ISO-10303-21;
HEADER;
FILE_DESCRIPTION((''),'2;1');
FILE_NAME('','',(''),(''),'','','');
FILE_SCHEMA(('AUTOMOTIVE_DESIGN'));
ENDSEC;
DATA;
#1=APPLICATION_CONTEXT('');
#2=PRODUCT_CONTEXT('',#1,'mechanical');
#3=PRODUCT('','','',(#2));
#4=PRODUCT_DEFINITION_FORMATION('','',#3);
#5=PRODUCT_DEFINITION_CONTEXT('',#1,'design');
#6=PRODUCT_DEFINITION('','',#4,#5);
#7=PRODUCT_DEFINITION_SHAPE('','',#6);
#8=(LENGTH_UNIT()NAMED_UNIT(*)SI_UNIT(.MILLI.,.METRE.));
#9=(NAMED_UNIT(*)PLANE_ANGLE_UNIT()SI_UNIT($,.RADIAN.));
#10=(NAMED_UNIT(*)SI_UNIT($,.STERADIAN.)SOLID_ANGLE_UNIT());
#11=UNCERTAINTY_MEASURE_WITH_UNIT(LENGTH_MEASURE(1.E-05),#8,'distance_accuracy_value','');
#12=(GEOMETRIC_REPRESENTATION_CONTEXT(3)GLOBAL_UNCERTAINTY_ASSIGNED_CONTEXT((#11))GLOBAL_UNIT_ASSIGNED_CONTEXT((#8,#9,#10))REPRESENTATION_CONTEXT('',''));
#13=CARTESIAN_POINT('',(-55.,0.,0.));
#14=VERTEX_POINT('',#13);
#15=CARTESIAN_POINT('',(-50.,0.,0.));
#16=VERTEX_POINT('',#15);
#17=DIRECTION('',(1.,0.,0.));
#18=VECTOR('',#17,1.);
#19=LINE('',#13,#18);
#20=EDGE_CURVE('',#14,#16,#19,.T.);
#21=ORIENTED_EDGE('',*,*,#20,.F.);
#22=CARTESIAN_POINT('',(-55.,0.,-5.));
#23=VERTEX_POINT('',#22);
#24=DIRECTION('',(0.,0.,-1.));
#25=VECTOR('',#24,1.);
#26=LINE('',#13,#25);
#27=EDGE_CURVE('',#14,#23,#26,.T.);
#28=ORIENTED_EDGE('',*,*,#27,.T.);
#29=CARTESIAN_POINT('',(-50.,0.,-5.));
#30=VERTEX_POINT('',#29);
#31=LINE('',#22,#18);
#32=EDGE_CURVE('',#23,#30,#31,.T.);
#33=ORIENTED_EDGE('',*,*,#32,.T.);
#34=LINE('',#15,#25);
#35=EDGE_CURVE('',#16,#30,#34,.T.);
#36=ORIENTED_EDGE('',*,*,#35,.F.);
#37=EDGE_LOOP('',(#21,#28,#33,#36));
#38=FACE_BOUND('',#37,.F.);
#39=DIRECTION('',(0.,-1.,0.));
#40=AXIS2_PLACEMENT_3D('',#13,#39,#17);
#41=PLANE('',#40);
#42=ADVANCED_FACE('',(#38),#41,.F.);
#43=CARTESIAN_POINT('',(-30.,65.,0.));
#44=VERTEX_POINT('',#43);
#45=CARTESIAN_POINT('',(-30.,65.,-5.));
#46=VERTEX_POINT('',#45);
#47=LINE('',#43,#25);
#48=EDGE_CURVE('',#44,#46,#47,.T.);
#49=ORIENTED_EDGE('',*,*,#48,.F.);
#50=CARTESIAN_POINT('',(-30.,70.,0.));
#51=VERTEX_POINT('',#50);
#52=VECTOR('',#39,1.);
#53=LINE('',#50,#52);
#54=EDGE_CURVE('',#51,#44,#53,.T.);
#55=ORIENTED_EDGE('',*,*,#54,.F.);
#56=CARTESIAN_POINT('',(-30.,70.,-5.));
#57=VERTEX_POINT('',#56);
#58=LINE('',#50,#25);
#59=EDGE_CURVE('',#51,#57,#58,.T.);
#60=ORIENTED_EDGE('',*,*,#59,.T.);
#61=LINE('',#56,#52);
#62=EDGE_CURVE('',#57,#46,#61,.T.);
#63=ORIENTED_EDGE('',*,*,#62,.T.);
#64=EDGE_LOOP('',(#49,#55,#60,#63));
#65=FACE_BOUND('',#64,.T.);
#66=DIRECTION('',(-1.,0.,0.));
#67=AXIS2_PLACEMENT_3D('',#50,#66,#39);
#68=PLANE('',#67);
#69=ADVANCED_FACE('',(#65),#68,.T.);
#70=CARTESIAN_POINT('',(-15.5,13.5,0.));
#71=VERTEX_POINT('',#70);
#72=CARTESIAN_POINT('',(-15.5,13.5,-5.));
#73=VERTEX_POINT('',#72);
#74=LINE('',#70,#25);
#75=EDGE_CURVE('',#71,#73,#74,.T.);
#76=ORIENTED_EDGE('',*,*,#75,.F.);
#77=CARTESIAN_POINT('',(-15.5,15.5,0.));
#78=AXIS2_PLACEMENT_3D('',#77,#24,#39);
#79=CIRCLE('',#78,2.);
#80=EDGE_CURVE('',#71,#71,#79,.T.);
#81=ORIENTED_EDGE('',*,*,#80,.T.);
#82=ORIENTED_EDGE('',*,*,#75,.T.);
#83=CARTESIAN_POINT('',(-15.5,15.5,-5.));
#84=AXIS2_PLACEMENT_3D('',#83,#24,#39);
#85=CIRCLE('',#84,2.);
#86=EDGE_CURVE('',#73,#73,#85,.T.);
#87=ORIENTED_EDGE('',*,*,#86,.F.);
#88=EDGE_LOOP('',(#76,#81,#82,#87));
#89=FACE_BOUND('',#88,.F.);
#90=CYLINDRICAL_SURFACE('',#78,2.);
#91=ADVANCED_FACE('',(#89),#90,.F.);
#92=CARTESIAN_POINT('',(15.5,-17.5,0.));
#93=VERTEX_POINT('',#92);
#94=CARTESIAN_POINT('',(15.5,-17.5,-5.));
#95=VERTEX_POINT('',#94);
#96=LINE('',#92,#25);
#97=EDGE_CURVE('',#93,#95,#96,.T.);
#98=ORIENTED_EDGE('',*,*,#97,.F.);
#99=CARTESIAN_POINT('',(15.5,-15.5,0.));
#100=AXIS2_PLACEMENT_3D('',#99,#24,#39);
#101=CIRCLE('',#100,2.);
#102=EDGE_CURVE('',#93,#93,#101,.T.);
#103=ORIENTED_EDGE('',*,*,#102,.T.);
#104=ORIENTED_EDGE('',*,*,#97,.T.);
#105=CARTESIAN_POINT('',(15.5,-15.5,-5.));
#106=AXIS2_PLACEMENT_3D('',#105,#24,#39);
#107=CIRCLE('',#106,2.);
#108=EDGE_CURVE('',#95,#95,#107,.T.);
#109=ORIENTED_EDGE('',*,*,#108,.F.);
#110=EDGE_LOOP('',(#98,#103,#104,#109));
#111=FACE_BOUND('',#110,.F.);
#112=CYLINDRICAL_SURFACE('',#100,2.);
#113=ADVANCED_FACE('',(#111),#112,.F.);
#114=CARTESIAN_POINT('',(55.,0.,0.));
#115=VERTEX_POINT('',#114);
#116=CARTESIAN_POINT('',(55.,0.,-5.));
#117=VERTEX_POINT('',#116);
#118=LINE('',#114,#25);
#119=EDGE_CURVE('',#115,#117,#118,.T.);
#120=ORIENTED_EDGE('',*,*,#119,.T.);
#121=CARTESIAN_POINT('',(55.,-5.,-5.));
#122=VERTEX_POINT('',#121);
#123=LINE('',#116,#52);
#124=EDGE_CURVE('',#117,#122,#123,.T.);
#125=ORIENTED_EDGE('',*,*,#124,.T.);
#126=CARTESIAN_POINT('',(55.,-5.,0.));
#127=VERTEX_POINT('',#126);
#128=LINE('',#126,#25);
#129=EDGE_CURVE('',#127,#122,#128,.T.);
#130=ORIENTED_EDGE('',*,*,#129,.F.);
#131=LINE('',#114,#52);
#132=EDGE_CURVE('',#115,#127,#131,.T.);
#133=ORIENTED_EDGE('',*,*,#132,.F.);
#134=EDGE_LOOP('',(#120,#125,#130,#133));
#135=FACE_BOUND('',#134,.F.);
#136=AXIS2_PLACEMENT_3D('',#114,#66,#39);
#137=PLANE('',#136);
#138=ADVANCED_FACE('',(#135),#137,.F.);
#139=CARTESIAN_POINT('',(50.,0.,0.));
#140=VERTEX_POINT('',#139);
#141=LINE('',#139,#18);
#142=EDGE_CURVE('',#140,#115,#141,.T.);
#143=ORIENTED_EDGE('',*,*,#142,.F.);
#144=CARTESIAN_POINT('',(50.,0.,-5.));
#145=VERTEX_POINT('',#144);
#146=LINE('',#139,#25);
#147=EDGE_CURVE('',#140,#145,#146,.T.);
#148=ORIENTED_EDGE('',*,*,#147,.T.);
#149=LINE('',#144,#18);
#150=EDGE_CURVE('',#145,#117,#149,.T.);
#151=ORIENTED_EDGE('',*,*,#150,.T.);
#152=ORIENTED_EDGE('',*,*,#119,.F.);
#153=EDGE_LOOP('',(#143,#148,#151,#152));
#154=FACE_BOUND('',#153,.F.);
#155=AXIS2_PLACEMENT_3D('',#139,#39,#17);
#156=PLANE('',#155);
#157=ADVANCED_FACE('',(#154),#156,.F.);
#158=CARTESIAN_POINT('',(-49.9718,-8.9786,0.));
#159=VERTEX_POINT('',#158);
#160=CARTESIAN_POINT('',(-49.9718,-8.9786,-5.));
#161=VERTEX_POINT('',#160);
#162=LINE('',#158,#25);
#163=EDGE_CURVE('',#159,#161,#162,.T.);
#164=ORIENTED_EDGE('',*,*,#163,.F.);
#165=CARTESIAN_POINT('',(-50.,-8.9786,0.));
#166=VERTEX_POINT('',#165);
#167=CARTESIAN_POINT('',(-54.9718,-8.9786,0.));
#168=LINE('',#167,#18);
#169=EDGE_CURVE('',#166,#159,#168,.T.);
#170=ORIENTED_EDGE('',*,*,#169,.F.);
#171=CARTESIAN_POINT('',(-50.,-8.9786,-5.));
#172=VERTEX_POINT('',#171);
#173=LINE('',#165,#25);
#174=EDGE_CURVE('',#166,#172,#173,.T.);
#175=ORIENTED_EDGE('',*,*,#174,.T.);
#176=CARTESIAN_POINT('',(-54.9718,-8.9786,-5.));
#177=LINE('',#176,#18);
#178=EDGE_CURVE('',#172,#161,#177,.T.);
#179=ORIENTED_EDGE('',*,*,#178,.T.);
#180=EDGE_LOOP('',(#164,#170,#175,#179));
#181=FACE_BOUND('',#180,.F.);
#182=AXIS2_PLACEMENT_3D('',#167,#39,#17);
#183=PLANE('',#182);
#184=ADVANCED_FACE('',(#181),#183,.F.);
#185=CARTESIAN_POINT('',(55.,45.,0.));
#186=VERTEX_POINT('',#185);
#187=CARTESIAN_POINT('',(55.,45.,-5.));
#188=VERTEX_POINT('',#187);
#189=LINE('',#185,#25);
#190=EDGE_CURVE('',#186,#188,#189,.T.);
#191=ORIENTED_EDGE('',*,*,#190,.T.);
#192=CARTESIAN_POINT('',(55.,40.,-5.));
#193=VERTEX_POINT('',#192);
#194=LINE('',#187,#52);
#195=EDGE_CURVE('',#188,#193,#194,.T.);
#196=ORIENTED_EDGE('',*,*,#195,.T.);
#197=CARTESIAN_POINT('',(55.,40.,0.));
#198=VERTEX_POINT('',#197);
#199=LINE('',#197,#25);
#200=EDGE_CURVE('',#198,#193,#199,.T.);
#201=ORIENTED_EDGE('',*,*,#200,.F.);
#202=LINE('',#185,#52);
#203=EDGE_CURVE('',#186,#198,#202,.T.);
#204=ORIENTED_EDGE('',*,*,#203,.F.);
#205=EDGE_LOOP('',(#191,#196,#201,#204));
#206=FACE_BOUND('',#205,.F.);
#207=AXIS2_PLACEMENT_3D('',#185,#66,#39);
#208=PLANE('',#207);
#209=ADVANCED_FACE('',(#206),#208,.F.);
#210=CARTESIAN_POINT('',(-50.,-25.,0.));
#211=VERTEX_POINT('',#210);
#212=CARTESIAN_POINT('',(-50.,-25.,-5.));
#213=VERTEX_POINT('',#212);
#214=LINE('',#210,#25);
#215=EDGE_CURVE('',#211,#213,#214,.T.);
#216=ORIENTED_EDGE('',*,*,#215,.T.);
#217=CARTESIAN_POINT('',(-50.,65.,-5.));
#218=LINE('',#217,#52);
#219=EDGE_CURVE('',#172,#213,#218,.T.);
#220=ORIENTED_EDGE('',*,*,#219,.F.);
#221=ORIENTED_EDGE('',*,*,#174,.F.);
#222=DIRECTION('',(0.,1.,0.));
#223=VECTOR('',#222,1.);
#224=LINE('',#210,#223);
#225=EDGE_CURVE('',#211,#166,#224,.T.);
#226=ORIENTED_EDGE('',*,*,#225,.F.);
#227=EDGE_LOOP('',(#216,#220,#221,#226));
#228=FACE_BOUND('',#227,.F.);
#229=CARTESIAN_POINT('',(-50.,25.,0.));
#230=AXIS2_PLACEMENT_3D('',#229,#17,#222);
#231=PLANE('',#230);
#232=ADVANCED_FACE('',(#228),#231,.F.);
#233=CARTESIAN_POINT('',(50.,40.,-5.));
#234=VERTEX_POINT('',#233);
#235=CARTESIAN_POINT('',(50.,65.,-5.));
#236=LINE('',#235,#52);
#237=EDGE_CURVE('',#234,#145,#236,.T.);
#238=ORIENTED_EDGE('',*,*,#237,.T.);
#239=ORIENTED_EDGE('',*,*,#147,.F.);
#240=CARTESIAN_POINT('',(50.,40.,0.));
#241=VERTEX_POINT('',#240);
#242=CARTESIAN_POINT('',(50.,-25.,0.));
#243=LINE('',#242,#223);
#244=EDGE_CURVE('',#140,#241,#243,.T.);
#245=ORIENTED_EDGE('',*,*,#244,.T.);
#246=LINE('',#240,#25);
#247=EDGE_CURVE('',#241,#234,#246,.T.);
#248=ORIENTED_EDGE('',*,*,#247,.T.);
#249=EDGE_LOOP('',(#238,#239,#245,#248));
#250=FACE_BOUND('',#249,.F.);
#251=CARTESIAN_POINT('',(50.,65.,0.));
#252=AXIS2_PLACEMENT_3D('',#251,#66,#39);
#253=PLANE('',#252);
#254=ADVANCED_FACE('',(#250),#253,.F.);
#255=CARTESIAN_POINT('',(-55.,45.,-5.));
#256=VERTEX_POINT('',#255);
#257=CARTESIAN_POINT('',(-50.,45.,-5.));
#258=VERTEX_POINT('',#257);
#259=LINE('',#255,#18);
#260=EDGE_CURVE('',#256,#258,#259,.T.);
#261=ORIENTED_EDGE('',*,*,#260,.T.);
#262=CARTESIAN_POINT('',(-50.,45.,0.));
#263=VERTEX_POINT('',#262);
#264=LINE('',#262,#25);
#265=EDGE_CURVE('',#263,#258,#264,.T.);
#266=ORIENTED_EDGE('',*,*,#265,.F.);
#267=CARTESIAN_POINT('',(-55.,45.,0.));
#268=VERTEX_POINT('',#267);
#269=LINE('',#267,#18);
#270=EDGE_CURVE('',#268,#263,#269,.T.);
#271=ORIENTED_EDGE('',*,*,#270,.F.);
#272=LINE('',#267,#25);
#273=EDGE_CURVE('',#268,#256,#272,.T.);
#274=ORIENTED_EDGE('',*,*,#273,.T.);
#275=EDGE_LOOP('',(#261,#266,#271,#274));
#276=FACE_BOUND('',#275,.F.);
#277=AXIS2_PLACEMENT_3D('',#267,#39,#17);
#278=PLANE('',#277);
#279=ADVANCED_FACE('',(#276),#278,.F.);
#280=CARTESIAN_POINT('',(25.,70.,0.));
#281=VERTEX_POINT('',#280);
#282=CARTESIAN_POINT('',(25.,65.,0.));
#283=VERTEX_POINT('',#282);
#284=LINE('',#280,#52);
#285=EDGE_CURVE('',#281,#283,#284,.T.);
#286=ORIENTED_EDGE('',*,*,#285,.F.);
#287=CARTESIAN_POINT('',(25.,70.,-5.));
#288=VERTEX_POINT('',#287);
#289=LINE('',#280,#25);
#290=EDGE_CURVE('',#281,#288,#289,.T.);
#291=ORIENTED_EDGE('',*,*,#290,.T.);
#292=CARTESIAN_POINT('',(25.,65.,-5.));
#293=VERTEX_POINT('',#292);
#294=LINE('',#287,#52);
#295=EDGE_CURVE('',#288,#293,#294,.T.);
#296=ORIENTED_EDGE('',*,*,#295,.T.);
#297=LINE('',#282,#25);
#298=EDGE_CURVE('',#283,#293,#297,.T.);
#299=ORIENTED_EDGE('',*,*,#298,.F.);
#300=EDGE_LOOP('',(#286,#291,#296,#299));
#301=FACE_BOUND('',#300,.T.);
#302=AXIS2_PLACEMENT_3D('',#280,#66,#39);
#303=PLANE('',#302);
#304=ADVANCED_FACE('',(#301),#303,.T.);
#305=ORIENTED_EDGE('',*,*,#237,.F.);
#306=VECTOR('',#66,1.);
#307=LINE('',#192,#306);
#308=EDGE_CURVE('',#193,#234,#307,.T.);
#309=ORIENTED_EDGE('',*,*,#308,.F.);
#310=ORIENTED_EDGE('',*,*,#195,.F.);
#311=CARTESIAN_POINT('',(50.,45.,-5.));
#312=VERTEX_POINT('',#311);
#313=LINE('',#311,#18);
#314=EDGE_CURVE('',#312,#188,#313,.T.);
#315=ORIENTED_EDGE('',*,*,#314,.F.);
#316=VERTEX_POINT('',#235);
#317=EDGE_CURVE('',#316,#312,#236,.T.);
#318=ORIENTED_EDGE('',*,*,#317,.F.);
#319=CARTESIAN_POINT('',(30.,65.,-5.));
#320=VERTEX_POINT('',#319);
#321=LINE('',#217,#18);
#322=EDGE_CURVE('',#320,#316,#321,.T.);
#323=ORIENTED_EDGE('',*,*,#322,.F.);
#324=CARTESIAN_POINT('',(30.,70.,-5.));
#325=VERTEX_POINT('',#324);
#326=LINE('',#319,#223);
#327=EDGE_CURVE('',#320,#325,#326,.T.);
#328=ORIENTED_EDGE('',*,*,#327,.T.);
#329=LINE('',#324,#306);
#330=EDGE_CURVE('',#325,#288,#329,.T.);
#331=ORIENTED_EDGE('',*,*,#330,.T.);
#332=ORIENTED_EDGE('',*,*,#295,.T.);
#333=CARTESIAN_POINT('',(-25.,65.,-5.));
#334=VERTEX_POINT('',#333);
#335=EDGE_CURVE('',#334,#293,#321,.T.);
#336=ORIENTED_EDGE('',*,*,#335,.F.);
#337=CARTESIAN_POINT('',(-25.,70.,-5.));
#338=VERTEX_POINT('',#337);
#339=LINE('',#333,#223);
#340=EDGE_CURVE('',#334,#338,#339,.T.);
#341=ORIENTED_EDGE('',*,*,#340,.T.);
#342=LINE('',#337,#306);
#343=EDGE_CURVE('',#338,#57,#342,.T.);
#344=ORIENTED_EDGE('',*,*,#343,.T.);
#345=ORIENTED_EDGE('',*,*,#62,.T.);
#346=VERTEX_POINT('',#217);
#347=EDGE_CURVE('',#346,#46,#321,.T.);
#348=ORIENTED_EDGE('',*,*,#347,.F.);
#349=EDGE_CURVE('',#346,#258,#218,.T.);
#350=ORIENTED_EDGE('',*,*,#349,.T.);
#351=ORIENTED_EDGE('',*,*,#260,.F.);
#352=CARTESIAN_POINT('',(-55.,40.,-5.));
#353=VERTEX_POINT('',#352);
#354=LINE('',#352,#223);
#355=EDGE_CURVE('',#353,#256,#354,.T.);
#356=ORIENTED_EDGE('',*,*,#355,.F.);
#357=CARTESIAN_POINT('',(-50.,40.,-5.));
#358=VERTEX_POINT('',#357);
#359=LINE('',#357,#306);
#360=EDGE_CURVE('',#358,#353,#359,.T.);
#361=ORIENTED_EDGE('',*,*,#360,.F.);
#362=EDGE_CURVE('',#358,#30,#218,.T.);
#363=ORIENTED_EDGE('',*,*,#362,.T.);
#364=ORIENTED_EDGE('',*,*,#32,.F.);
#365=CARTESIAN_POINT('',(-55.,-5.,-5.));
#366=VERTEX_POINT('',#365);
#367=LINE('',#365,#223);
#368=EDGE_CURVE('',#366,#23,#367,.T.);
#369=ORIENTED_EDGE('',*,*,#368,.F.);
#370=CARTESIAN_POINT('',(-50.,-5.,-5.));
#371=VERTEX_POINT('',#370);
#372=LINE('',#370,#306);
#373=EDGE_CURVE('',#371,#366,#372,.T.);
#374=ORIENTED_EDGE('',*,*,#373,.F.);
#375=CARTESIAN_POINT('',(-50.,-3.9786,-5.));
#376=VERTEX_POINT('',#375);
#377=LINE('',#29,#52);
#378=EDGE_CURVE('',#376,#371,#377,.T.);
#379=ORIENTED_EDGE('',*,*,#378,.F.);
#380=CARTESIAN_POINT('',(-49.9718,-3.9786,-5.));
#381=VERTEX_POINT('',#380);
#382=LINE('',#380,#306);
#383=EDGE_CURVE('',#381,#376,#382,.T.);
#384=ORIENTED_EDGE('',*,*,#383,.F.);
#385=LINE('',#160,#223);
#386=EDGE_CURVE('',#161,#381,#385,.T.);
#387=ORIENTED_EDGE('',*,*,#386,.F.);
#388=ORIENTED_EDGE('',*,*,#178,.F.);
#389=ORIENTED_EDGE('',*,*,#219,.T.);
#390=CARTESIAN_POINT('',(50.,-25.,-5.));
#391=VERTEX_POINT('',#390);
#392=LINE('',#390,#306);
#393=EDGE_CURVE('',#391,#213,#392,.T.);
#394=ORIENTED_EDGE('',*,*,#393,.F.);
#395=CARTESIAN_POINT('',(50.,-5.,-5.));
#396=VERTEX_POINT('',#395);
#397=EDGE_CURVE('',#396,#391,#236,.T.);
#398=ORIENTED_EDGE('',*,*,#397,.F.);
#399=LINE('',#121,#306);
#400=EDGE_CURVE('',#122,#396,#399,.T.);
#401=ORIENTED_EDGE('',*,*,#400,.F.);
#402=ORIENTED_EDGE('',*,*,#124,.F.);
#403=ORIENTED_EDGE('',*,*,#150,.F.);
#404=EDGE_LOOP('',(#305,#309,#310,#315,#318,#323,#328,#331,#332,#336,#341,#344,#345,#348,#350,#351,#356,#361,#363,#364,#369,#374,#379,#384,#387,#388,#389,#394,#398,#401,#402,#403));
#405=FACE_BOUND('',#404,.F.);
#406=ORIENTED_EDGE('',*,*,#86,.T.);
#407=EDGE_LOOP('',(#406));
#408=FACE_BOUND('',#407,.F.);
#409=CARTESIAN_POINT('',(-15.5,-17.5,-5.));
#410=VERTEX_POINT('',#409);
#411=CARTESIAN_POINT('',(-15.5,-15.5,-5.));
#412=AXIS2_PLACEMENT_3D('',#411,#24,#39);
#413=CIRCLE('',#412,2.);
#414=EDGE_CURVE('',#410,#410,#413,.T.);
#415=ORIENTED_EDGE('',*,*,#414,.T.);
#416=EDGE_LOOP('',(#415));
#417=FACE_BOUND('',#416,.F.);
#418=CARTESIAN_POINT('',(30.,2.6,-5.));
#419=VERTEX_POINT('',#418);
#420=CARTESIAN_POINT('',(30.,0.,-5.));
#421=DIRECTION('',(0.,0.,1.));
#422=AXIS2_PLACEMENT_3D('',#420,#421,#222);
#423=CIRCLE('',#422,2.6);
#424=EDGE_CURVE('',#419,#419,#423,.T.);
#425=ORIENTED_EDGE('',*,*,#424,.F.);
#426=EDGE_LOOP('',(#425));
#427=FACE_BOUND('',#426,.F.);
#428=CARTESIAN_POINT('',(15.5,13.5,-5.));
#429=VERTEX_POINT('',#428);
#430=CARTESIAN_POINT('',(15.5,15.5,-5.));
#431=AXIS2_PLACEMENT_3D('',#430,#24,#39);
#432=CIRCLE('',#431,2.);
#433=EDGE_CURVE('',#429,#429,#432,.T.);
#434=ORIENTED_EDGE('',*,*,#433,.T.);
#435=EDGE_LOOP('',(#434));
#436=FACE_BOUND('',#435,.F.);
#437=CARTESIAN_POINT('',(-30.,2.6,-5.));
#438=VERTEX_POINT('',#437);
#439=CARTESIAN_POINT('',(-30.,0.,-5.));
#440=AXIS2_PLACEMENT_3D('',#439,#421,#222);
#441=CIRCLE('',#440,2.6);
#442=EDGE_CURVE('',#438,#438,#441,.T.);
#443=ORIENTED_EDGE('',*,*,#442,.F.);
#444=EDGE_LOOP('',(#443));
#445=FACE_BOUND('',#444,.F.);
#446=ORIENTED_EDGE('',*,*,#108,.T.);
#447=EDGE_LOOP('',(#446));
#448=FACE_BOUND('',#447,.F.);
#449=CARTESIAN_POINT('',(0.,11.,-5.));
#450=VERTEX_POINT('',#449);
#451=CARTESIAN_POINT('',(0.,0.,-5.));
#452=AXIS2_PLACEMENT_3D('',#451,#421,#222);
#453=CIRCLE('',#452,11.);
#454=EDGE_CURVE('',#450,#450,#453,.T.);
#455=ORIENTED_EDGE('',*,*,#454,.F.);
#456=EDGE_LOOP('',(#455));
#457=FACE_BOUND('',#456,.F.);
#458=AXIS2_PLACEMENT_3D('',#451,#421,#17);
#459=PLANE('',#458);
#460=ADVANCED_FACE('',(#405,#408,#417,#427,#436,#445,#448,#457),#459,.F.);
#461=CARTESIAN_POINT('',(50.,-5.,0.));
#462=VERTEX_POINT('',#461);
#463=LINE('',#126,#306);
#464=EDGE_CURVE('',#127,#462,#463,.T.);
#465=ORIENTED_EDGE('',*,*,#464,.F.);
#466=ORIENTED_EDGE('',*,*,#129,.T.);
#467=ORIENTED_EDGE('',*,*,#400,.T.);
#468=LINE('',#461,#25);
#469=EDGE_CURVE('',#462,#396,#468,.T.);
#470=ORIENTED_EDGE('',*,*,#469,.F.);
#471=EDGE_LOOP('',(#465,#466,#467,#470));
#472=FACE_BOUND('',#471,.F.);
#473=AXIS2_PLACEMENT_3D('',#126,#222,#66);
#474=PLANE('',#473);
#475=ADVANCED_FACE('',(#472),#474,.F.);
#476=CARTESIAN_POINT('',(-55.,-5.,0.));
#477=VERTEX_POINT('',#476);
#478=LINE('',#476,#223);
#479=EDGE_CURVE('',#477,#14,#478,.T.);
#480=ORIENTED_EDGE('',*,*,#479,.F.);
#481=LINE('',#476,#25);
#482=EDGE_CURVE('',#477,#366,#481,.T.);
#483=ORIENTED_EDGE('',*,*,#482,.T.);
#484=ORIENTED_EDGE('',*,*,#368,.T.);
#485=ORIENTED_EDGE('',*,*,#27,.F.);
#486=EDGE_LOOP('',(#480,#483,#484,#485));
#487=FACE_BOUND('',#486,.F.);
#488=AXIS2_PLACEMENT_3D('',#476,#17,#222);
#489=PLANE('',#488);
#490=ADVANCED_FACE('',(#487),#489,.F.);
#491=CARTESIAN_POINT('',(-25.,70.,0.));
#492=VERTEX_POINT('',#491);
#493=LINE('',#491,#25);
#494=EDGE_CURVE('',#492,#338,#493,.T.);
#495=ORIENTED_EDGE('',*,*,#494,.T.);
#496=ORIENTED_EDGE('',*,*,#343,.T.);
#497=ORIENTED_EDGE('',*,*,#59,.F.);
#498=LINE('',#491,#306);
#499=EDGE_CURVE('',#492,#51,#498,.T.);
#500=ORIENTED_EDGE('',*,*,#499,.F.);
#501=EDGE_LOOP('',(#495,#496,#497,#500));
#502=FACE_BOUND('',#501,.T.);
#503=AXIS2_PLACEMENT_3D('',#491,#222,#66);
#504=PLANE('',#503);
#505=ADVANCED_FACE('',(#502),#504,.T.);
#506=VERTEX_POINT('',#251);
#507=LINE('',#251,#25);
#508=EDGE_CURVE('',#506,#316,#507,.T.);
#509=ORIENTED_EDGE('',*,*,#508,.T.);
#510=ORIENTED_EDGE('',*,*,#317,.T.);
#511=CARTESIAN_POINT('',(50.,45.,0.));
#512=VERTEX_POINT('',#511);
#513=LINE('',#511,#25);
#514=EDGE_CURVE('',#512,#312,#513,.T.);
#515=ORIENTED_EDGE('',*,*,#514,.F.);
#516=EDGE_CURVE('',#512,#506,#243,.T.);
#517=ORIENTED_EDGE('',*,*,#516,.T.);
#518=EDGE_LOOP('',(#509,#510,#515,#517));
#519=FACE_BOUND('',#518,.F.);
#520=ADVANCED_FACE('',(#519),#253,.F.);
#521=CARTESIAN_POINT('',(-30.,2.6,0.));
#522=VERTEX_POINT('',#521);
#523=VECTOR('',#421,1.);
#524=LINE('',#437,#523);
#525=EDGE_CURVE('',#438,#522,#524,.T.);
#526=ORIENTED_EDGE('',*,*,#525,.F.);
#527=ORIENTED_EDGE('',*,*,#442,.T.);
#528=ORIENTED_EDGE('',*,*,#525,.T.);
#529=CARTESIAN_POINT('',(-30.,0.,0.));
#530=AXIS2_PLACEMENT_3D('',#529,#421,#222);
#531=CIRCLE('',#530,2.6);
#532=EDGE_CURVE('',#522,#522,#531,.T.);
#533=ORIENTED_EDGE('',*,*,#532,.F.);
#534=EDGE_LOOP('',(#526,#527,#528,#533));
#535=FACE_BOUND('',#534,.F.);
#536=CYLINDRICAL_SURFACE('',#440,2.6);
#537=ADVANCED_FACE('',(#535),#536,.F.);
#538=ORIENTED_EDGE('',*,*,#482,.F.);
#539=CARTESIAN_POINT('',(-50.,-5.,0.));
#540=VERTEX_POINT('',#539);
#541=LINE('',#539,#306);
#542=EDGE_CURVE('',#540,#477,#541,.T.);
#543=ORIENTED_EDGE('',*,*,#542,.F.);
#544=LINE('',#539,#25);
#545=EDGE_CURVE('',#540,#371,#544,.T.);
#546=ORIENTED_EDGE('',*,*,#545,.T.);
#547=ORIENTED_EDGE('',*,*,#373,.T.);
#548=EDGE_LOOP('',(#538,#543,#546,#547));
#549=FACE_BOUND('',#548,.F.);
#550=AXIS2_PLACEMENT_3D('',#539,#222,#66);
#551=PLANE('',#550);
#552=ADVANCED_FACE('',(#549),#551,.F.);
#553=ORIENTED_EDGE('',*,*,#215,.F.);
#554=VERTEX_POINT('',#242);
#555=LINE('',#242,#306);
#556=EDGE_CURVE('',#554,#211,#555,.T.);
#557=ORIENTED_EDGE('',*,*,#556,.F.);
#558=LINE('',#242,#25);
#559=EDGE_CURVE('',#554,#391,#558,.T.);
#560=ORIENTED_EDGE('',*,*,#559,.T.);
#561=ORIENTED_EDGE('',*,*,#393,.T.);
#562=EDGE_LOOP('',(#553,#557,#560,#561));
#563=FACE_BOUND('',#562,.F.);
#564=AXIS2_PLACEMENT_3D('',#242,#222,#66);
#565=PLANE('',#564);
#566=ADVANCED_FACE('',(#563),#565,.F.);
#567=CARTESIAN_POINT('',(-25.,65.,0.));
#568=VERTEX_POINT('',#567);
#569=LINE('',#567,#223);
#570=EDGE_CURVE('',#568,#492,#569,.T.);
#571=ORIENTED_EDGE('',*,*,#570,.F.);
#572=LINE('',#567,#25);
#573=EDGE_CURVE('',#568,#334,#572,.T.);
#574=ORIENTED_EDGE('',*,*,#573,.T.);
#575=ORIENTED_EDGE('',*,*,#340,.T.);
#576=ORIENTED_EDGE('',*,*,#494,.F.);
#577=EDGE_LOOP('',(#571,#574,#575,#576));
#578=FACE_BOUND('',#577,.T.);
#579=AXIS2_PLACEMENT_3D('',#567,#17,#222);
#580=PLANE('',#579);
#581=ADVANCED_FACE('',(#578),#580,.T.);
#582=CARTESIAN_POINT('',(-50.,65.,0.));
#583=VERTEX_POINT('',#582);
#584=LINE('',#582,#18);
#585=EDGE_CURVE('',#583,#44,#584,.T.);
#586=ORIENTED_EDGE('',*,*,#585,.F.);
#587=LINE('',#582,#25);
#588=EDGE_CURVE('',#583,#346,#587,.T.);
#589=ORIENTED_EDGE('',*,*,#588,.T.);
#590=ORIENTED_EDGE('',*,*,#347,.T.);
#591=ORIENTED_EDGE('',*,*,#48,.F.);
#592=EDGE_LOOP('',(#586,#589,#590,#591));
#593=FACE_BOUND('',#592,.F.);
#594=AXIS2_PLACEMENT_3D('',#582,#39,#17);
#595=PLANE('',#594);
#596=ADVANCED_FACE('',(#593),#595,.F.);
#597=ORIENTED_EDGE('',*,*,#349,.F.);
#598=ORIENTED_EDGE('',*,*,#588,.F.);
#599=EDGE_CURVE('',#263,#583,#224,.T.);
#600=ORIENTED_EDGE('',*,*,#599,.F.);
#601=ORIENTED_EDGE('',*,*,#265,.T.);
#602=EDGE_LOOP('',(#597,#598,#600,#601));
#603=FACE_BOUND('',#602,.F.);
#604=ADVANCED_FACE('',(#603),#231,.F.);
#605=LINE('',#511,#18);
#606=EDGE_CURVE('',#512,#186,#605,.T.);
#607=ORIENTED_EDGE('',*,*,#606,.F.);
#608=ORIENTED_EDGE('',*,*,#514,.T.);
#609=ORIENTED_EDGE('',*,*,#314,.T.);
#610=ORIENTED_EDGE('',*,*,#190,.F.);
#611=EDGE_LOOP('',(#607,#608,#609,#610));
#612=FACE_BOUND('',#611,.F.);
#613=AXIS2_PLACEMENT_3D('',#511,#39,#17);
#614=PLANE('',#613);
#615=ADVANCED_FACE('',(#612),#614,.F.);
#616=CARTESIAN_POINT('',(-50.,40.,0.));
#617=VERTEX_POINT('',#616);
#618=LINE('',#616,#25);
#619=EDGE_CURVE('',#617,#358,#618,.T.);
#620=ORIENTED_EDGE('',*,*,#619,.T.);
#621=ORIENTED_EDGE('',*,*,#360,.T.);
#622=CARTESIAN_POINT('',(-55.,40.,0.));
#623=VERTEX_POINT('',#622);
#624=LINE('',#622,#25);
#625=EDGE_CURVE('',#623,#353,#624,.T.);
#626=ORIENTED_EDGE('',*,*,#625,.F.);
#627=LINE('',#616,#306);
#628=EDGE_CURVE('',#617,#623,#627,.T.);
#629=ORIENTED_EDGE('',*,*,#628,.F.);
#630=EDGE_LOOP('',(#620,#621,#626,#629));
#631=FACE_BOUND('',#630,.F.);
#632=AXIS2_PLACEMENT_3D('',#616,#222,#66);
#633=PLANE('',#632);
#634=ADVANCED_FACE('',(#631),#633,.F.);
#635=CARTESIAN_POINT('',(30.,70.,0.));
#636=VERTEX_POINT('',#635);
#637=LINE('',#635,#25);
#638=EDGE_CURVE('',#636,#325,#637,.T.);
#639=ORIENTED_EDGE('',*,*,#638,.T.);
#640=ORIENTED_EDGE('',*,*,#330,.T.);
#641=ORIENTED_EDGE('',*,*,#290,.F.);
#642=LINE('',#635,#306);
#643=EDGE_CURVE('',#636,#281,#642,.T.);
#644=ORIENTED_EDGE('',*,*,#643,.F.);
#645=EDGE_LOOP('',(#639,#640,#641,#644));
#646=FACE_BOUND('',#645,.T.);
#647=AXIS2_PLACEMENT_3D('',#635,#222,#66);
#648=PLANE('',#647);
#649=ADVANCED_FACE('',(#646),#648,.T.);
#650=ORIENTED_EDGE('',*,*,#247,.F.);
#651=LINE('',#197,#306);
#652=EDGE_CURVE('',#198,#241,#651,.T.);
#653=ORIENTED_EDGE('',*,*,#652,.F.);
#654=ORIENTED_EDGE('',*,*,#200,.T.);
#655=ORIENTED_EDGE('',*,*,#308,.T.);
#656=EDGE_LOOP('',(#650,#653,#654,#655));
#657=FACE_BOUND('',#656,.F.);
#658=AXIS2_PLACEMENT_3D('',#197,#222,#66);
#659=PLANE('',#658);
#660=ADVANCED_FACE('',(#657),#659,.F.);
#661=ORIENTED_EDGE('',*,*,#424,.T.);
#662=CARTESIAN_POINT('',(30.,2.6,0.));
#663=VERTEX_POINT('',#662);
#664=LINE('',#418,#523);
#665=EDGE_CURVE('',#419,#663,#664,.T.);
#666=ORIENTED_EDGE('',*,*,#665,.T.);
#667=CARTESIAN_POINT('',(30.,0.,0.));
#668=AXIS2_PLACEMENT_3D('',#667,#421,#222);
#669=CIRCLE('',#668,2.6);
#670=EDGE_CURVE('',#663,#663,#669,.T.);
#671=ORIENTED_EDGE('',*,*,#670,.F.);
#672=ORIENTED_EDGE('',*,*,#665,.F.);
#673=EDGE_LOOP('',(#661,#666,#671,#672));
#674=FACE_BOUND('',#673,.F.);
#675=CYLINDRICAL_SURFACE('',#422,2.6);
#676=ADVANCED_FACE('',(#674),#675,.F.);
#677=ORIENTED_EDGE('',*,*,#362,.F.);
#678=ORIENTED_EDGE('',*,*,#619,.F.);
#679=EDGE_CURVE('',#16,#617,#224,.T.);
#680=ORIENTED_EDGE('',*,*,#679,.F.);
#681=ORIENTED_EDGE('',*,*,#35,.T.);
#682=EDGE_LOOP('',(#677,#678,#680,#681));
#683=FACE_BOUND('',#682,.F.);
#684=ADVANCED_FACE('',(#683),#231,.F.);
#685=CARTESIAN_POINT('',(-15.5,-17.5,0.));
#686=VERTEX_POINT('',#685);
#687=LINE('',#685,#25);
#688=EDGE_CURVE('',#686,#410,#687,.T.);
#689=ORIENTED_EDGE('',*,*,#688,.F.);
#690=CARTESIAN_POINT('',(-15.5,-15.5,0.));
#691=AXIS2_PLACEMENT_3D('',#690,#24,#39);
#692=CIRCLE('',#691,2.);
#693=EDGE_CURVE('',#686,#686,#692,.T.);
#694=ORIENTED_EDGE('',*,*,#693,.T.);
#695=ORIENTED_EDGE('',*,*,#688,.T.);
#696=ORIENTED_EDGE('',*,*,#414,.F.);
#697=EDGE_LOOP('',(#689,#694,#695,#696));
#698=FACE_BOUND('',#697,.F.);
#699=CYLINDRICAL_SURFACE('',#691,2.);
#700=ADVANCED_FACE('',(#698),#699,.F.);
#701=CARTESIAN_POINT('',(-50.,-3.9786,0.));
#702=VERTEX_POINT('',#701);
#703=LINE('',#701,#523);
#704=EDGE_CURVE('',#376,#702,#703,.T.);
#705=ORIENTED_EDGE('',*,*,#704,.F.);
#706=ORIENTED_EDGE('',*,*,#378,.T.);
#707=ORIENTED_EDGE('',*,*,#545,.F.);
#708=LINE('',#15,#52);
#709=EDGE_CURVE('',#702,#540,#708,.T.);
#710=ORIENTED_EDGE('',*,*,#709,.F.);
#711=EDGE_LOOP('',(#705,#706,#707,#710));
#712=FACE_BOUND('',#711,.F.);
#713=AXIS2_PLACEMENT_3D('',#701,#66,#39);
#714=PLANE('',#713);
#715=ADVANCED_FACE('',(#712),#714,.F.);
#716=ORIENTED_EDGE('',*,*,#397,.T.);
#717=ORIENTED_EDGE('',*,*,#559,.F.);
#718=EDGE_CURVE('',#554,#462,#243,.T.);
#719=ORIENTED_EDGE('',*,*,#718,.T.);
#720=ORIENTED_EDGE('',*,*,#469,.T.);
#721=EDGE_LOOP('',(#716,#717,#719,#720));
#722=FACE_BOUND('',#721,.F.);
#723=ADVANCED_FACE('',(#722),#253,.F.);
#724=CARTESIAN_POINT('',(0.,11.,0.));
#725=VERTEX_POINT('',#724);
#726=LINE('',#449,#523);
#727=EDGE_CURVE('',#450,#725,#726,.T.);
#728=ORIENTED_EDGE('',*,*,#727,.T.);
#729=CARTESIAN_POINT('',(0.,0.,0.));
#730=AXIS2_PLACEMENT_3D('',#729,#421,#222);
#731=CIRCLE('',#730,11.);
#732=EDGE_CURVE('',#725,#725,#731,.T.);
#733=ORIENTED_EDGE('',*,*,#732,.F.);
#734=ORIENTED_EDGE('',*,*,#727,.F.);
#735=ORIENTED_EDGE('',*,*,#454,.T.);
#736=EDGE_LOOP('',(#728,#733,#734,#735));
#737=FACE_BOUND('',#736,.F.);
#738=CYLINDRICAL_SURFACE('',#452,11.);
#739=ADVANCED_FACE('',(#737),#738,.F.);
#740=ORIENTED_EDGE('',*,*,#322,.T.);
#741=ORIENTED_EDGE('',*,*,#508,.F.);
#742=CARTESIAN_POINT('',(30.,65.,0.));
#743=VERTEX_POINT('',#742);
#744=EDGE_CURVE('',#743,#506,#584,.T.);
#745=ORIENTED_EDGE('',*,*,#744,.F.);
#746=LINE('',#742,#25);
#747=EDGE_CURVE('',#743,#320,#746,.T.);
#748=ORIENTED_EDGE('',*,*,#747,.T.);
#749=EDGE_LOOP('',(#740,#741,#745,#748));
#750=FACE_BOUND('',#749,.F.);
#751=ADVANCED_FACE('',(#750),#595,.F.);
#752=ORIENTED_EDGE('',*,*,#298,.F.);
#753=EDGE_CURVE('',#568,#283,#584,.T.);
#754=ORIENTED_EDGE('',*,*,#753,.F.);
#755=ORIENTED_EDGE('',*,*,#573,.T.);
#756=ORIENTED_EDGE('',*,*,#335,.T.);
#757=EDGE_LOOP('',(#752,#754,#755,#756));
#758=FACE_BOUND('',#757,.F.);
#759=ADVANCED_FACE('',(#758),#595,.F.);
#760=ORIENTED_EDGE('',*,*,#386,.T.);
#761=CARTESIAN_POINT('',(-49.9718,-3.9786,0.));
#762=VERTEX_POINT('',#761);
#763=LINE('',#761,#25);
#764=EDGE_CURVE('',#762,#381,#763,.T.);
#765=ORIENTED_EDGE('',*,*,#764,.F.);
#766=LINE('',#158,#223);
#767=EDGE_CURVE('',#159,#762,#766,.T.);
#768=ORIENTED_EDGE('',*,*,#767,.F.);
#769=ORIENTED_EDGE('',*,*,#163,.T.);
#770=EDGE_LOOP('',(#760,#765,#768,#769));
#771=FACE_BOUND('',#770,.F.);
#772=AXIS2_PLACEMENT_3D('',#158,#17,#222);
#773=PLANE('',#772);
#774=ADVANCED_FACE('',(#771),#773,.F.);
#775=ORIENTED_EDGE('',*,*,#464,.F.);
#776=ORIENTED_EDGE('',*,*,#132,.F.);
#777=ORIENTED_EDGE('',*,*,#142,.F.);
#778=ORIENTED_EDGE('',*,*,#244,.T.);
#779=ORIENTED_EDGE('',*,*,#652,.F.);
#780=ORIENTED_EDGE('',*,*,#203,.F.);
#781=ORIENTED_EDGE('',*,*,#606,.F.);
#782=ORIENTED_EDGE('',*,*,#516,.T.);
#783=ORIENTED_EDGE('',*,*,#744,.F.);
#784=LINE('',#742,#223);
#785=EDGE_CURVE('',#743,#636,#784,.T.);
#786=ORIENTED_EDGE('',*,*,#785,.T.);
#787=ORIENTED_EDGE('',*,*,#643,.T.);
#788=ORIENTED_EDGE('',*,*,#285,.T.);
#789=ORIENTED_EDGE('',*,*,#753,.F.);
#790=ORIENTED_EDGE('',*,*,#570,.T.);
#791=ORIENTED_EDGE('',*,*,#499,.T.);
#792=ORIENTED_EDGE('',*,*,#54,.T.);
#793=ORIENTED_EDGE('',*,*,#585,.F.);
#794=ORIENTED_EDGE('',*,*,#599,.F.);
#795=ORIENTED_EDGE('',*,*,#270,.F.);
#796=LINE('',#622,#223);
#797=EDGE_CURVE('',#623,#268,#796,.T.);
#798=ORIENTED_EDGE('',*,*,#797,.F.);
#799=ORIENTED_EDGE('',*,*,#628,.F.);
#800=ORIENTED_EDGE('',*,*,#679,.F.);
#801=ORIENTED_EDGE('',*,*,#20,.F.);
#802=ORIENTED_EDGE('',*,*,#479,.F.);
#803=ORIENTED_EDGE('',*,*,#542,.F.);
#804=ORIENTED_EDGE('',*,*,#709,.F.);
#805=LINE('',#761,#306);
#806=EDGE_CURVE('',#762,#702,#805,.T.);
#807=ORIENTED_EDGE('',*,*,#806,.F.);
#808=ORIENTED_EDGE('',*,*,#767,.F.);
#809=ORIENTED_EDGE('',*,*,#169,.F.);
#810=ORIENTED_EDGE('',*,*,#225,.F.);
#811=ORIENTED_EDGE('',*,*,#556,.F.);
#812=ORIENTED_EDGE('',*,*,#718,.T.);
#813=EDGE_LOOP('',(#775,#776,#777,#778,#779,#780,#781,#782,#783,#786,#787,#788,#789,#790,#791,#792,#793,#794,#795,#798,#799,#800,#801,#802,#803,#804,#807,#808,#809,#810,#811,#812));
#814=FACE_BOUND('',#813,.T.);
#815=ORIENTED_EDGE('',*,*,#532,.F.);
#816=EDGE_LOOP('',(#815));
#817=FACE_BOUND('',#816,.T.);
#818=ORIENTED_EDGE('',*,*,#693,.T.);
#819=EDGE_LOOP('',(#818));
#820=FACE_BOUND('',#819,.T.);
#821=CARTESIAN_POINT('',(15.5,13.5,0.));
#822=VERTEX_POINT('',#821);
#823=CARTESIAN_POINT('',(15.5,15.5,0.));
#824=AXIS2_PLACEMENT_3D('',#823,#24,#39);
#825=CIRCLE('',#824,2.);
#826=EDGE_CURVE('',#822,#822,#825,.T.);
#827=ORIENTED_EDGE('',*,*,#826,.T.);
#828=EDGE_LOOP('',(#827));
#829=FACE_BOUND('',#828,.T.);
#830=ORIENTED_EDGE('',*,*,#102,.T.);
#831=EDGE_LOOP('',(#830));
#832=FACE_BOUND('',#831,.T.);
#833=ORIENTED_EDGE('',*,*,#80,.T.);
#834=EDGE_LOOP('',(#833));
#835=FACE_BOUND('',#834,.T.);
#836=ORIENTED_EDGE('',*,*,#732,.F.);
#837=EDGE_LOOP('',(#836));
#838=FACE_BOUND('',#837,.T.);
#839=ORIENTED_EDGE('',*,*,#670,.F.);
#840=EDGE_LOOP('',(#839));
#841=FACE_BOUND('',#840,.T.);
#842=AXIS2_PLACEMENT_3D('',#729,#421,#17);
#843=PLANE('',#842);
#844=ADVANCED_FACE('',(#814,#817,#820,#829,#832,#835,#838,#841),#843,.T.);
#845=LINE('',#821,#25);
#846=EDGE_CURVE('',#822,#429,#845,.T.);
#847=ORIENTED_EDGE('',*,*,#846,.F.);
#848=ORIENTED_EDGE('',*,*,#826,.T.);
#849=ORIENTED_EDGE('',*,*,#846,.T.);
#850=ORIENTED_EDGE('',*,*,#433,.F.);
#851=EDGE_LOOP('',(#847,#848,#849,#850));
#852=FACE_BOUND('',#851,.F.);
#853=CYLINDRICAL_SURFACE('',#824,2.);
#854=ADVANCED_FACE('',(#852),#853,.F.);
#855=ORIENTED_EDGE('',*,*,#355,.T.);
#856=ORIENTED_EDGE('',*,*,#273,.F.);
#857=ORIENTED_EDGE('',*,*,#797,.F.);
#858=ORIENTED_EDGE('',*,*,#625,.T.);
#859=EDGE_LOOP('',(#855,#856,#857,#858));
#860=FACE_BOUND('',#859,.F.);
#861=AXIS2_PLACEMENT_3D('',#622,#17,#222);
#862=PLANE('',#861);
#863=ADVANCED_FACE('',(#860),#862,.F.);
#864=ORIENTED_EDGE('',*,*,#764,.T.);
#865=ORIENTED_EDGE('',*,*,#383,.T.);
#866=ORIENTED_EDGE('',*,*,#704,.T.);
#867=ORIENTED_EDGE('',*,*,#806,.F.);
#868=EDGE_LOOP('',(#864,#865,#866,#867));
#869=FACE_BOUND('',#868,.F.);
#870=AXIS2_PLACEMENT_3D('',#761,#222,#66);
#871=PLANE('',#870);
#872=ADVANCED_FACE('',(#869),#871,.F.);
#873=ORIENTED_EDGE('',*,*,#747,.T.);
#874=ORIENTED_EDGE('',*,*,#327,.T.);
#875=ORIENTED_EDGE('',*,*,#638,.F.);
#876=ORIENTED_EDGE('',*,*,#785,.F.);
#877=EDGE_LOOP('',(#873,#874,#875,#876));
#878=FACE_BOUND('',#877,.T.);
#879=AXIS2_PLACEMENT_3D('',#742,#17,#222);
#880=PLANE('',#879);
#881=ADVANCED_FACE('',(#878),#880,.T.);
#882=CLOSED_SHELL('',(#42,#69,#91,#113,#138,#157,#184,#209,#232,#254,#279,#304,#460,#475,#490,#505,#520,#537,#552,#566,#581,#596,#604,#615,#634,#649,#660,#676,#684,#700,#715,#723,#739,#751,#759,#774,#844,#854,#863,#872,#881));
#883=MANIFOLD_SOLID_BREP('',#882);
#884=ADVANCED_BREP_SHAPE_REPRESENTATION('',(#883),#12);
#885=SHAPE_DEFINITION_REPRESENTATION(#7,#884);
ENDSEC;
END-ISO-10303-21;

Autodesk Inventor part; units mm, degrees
ref_plane "YZ Plane" through (0, 0, 0) normal (1, 0, 0) x (0, 1, 0)
ref_plane "XZ Plane" through (0, 0, 0) normal (0, 1, 0) x (-1, 0, 0)
ref_plane "XY Plane" through (0, 0, 0) normal (0, 0, 1) x (1, 0, 0)
sketch "Block1" plane through (0, 0, 0) normal (0, 0, 1) x (1, 0, 0)
  line L0 (-30.1, 34.1) -> (-9.9, 34.1)
  line L1 (-9.9, 34.1) -> (-9.9, 25.1)
  line L2 (-9.9, 25.1) -> (9.9, 25.1)
  line L3 (9.9, 25.1) -> (9.9, 34.1)
  line L4 (9.9, 34.1) -> (30.1, 34.1)
  line L5 (30.1, 34.1) -> (30.1, 25.1)
  line L6 (30.1, 25.1) -> (50.1, 25.1)
  line L7 (50.1, 25.1) -> (50.1, 16.5667)
  line L8 (50.1, 16.5667) -> (41.1, 16.5667)
  line L9 (41.1, 16.5667) -> (41.1, 6.7667)
  line L10 (41.1, 6.7667) -> (50.1, 6.7667)
  line L11 (50.1, 6.7667) -> (50.1, -6.7667)
  line L12 (50.1, -6.7667) -> (41.1, -6.7667)
  line L13 (41.1, -6.7667) -> (41.1, -16.5667)
  line L14 (41.1, -16.5667) -> (50.1, -16.5667)
  line L15 (50.1, -16.5667) -> (50.1, -25.1)
  line L16 (50.1, -25.1) -> (30.1, -25.1)
  line L17 (30.1, -25.1) -> (30.1, -34.1)
  line L18 (30.1, -34.1) -> (9.9, -34.1)
  line L19 (9.9, -34.1) -> (9.9, -25.1)
  line L20 (9.9, -25.1) -> (-9.9, -25.1)
  line L21 (-9.9, -25.1) -> (-9.9, -34.1)
  line L22 (-9.9, -34.1) -> (-30.1, -34.1)
  line L23 (-30.1, -34.1) -> (-30.1, -25.1)
  line L24 (-30.1, -25.1) -> (-50.1, -25.1)
  line L25 (-50.1, -25.1) -> (-50.1, -16.5667)
  line L26 (-50.1, -16.5667) -> (-41.1, -16.5667)
  line L27 (-41.1, -16.5667) -> (-41.1, -6.7667)
  line L28 (-41.1, -6.7667) -> (-50.1, -6.7667)
  line L29 (-50.1, -6.7667) -> (-50.1, 6.7667)
  line L30 (-50.1, 6.7667) -> (-41.1, 6.7667)
  line L31 (-41.1, 6.7667) -> (-41.1, 16.5667)
  line L32 (-41.1, 16.5667) -> (-50.1, 16.5667)
  line L33 (-50.1, 16.5667) -> (-50.1, 25.1)
  line L34 (-50.1, 25.1) -> (-30.1, 25.1)
  line L35 (-30.1, 25.1) -> (-30.1, 34.1)
  circle A0 centre (-30, 0) radius 4.6
  circle A1 centre (-15.5, 15.5) radius 2.1
  circle A2 centre (-15.5, -15.5) radius 2.1
  circle A3 centre (0, 0) radius 11.1
  circle A4 centre (15.5, 15.5) radius 2.1
  circle A5 centre (30, 0) radius 4.6
  circle A6 centre (15.5, -15.5) radius 2.1
  point P0 (0, 0)
sketch "Block2" plane through (0, 0, 0) normal (0, 0, 1) x (1, 0, 0)
  line L0 (9.8, 34.2) -> (30.2, 34.2)
  line L1 (30.2, 34.2) -> (30.2, 25.2)
  line L2 (30.2, 25.2) -> (50.2, 25.2)
  line L3 (50.2, 25.2) -> (50.2, 16.4667)
  line L4 (50.2, 16.4667) -> (41.2, 16.4667)
  line L5 (41.2, 16.4667) -> (41.2, 6.8667)
  line L6 (41.2, 6.8667) -> (50.2, 6.8667)
  line L7 (50.2, 6.8667) -> (50.2, -6.8667)
  line L8 (50.2, -6.8667) -> (41.2, -6.8667)
  line L9 (41.2, -6.8667) -> (41.2, -16.4667)
  line L10 (41.2, -16.4667) -> (50.2, -16.4667)
  line L11 (50.2, -16.4667) -> (50.2, -25.2)
  line L12 (50.2, -25.2) -> (30.2, -25.2)
  line L13 (30.2, -25.2) -> (30.2, -34.2)
  line L14 (30.2, -34.2) -> (9.8, -34.2)
  line L15 (9.8, -34.2) -> (9.8, -25.2)
  line L16 (9.8, -25.2) -> (-9.8, -25.2)
  line L17 (-9.8, -25.2) -> (-9.8, -34.2)
  line L18 (-9.8, -34.2) -> (-30.2, -34.2)
  line L19 (-30.2, -34.2) -> (-30.2, -25.2)
  line L20 (-30.2, -25.2) -> (-50.2, -25.2)
  line L21 (-50.2, -25.2) -> (-50.2, -16.4667)
  line L22 (-50.2, -16.4667) -> (-41.2, -16.4667)
  line L23 (-41.2, -16.4667) -> (-41.2, -6.8667)
  line L24 (-41.2, -6.8667) -> (-50.2, -6.8667)
  line L25 (-50.2, -6.8667) -> (-50.2, 6.8667)
  line L26 (-50.2, 6.8667) -> (-41.2, 6.8667)
  line L27 (-41.2, 6.8667) -> (-41.2, 16.4667)
  line L28 (-41.2, 16.4667) -> (-50.2, 16.4667)
  line L29 (-50.2, 16.4667) -> (-50.2, 25.2)
  line L30 (-50.2, 25.2) -> (-30.2, 25.2)
  line L31 (-30.2, 25.2) -> (-30.2, 34.2)
  line L32 (-30.2, 34.2) -> (-9.8, 34.2)
  line L33 (-9.8, 34.2) -> (-9.8, 25.2)
  line L34 (-9.8, 25.2) -> (9.8, 25.2)
  line L35 (9.8, 25.2) -> (9.8, 34.2)
  circle A0 centre (-15.5, 15.5) radius 2.2
  circle A1 centre (15.5, 15.5) radius 2.2
  circle A2 centre (30, 0) radius 4.7
  circle A3 centre (15.5, -15.5) radius 2.2
  circle A4 centre (-15.5, -15.5) radius 2.2
  circle A5 centre (-30, 0) radius 4.7
  circle A6 centre (0, 0) radius 11.2
  point P0 (0, 0)
sketch "Block3" plane through (0, 0, 0) normal (0, 0, 1) x (1, 0, 0)
  line L0 (9.9, 34.1) -> (30.1, 34.1)
  line L1 (30.1, 34.1) -> (30.1, 25.1)
  line L2 (30.1, 25.1) -> (50.1, 25.1)
  line L3 (50.1, 25.1) -> (50.1, 16.5667)
  line L4 (50.1, 16.5667) -> (41.1, 16.5667)
  line L5 (41.1, 16.5667) -> (41.1, 6.7667)
  line L6 (41.1, 6.7667) -> (50.1, 6.7667)
  line L7 (50.1, 6.7667) -> (50.1, -6.7667)
  line L8 (50.1, -6.7667) -> (41.1, -6.7667)
  line L9 (41.1, -6.7667) -> (41.1, -16.5667)
  line L10 (41.1, -16.5667) -> (50.1, -16.5667)
  line L11 (50.1, -16.5667) -> (50.1, -25.1)
  line L12 (50.1, -25.1) -> (30.1, -25.1)
  line L13 (30.1, -25.1) -> (30.1, -34.1)
  line L14 (30.1, -34.1) -> (9.9, -34.1)
  line L15 (9.9, -34.1) -> (9.9, -25.1)
  line L16 (9.9, -25.1) -> (-9.9, -25.1)
  line L17 (-9.9, -25.1) -> (-9.9, -34.1)
  line L18 (-9.9, -34.1) -> (-30.1, -34.1)
  line L19 (-30.1, -34.1) -> (-30.1, -25.1)
  line L20 (-30.1, -25.1) -> (-50.1, -25.1)
  line L21 (-50.1, -25.1) -> (-50.1, -16.5667)
  line L22 (-50.1, -16.5667) -> (-41.1, -16.5667)
  line L23 (-41.1, -16.5667) -> (-41.1, -6.7667)
  line L24 (-41.1, -6.7667) -> (-50.1, -6.7667)
  line L25 (-50.1, -6.7667) -> (-50.1, 6.7667)
  line L26 (-50.1, 6.7667) -> (-41.1, 6.7667)
  line L27 (-41.1, 6.7667) -> (-41.1, 16.5667)
  line L28 (-41.1, 16.5667) -> (-50.1, 16.5667)
  line L29 (-50.1, 16.5667) -> (-50.1, 25.1)
  line L30 (-50.1, 25.1) -> (-30.1, 25.1)
  line L31 (-30.1, 25.1) -> (-30.1, 34.1)
  line L32 (-30.1, 34.1) -> (-9.9, 34.1)
  line L33 (-9.9, 34.1) -> (-9.9, 25.1)
  line L34 (-9.9, 25.1) -> (9.9, 25.1)
  line L35 (9.9, 25.1) -> (9.9, 34.1)
  circle A0 centre (-15.5, 15.5) radius 2.1
  circle A1 centre (15.5, 15.5) radius 2.1
  circle A2 centre (30, 0) radius 4.6
  circle A3 centre (15.5, -15.5) radius 2.1
  circle A4 centre (-15.5, -15.5) radius 2.1
  circle A5 centre (-30, 0) radius 4.6
  circle A6 centre (0, 0) radius 11.1
  point P0 (0, 0)
sketch "Block4" plane through (0, 0, 0) normal (0, 0, 1) x (1, 0, 0)
  line L0 (-30.08, 30.58) -> (-9.92, 30.58)
  line L1 (-9.92, 30.58) -> (-9.92, 25.08)
  line L2 (-9.92, 25.08) -> (9.92, 25.08)
  line L3 (9.92, 25.08) -> (9.92, 30.58)
  line L4 (9.92, 30.58) -> (30.08, 30.58)
  line L5 (30.08, 30.58) -> (30.08, 25.08)
  line L6 (30.08, 25.08) -> (50.08, 25.08)
  line L7 (50.08, 25.08) -> (50.08, 16.5867)
  line L8 (50.08, 16.5867) -> (44.58, 16.5867)
  line L9 (44.58, 16.5867) -> (44.58, 6.7467)
  line L10 (44.58, 6.7467) -> (50.08, 6.7467)
  line L11 (50.08, 6.7467) -> (50.08, -6.7467)
  line L12 (50.08, -6.7467) -> (44.58, -6.7467)
  line L13 (44.58, -6.7467) -> (44.58, -16.5867)
  line L14 (44.58, -16.5867) -> (50.08, -16.5867)
  line L15 (50.08, -16.5867) -> (50.08, -25.08)
  line L16 (50.08, -25.08) -> (30.08, -25.08)
  line L17 (30.08, -25.08) -> (30.08, -30.58)
  line L18 (30.08, -30.58) -> (9.92, -30.58)
  line L19 (9.92, -30.58) -> (9.92, -25.08)
  line L20 (9.92, -25.08) -> (-9.92, -25.08)
  line L21 (-9.92, -25.08) -> (-9.92, -30.58)
  line L22 (-9.92, -30.58) -> (-30.08, -30.58)
  line L23 (-30.08, -30.58) -> (-30.08, -25.08)
  line L24 (-30.08, -25.08) -> (-50.08, -25.08)
  line L25 (-50.08, -25.08) -> (-50.08, -16.5867)
  line L26 (-50.08, -16.5867) -> (-44.58, -16.5867)
  line L27 (-44.58, -16.5867) -> (-44.58, -6.7467)
  line L28 (-44.58, -6.7467) -> (-50.08, -6.7467)
  line L29 (-50.08, -6.7467) -> (-50.08, 6.7467)
  line L30 (-50.08, 6.7467) -> (-44.58, 6.7467)
  line L31 (-44.58, 6.7467) -> (-44.58, 16.5867)
  line L32 (-44.58, 16.5867) -> (-50.08, 16.5867)
  line L33 (-50.08, 16.5867) -> (-50.08, 25.08)
  line L34 (-50.08, 25.08) -> (-30.08, 25.08)
  line L35 (-30.08, 25.08) -> (-30.08, 30.58)
  circle A0 centre (-30, 0) radius 4.88
  circle A1 centre (30, 0) radius 4.88
  circle A2 centre (15.5, 15.5) radius 2.08
  circle A3 centre (0, 0) radius 11.08
  circle A4 centre (-15.5, 15.5) radius 2.08
  circle A5 centre (-15.5, -15.5) radius 2.08
  circle A6 centre (15.5, -15.5) radius 2.08
  point P0 (0, 0)
sketch "Sketch10" plane through (0, 0, 0) normal (0, 0, 1) x (1, 0, 0)
  line L0 (50, -25) -> (-50, -25)
  line L1 (-50, -25) -> (-50, 25)
  line L2 (-50, 25) -> (50, 25)
  line L3 (50, 25) -> (50, -25)
  line L4 (50, -25) -> (-50, 25) construction
  line L5 (-50, -25) -> (50, 25) construction
  point P0 (0, 0)
  dimension "d21" = 100
  dimension "d22" = 50
extrude "Extrusion2" add sketch "Sketch10" against normal blind 5
sketch "Sketch13" plane through (0, 0, 0) normal (0, 0, 1) x (1, 0, 0)
  line L0 (0, -47.8822) -> (0, 48.5933) projected
  line L1 (-201.8331, 0) -> (92.0889, 0) projected
  point P0 (-15.5, 15.5)
  point P1 (15.5, 15.5)
  point P2 (-15.5, -15.5)
  point P3 (15.5, -15.5)
  dimension "d43" = 31
  dimension "d44" = 31
hole "Hole4" at (-15.5, 15.5, 0) at (15.5, 15.5, 0) at (-15.5, -15.5, 0) at (15.5, -15.5, 0) direction (0, 0, -1) diameter 4 end through all
sketch "Sketch16" plane through (0, 0, -5) normal (0, 0, -1) x (-1, 0, 0)
  line L0 (0, -47.8822) -> (0, 48.5933) projected
  point P0 (0, 0)
  point P1 (-30, 0)
  point P2 (30, 0)
  dimension "d52" = 60
hole "Hole5" at (30, 0, -5) at (-30, 0, -5) direction (0, 0, 1) diameter 5.2 end through all
sketch "Sketch17" plane through (0, 0, -5) normal (0, 0, -1) x (-1, 0, 0)
  point P0 (0, 0)
  point P1 (0, 0)
hole "Hole8" at (0, 0, -5) direction (0, 0, 1) diameter 22 end through all
sketch "Sketch33" plane through (0, 0, 0) normal (0, 0, 1) x (1, 0, 0)
  line L0 (-50, 25) -> (50, 25) projected
  line L1 (-50, -25) -> (-50, 25) projected
  line L2 (0, -47.8822) -> (0, 48.5933) projected
  line L3 (-201.8331, 0) -> (92.0889, 0) projected
  line L4 (-30, 25) -> (-10, 25)
  line L5 (-10, 25) -> (-10, 30.5)
  line L6 (-10, 30.5) -> (-30, 30.5)
  line L7 (-30, 30.5) -> (-30, 25)
  line L8 (30, 25) -> (10, 25)
  line L9 (10, 25) -> (10, 30.5)
  line L10 (10, 30.5) -> (30, 30.5)
  line L11 (30, 30.5) -> (30, 25)
  line L12 (-30, -25) -> (-10, -25)
  line L13 (-10, -25) -> (-10, -30.5)
  line L14 (-10, -30.5) -> (-30, -30.5)
  line L15 (-30, -30.5) -> (-30, -25)
  line L16 (10, -25) -> (10, -30.5)
  line L17 (30, -25) -> (10, -25)
  line L18 (10, -30.5) -> (30, -30.5)
  line L19 (30, -30.5) -> (30, -25)
  point P0 (-50, 16.6667)
  dimension "d121" = 20
  dimension "d122" = 5.5
  dimension "d123" = 20
extrude "Extrusion5" [suppressed]
sketch "Sketch34" plane through (0, 0, -5) normal (0, 0, -1) x (-1, 0, 0)
  line L0 (50, 25) -> (-50, 25) projected
  line L1 (-50, 25) -> (-50, -25) projected
  line L2 (-50, 16.6667) -> (-44.5, 16.6667)
  line L3 (-44.5, 16.6667) -> (-44.5, 6.6667)
  line L4 (-44.5, 6.6667) -> (-50, 6.6667)
  line L5 (-50, 6.6667) -> (-50, 16.6667)
  line L6 (201.8331, 0) -> (-92.0889, 0) projected
  line L7 (0, -47.8822) -> (0, 48.5933) projected
  line L8 (-50, -16.6667) -> (-44.5, -16.6667)
  line L9 (-44.5, -16.6667) -> (-44.5, -6.6667)
  line L10 (-44.5, -6.6667) -> (-50, -6.6667)
  line L11 (-50, -6.6667) -> (-50, -16.6667)
  line L12 (50, 16.6667) -> (44.5, 16.6667)
  line L13 (44.5, 16.6667) -> (44.5, 6.6667)
  line L14 (44.5, 6.6667) -> (50, 6.6667)
  line L15 (50, 6.6667) -> (50, 16.6667)
  line L16 (44.5, -16.6667) -> (44.5, -6.6667)
  line L17 (50, -16.6667) -> (44.5, -16.6667)
  line L18 (44.5, -6.6667) -> (50, -6.6667)
  line L19 (50, -6.6667) -> (50, -16.6667)
  point P0 (-30, 25)
  dimension "d131" = 5.5
  dimension "d132" = 10
  dimension "d133" = 8.3333
extrude "Extrusion6" [suppressed]
sketch "Sketch45" plane through (0, 0, 0) normal (0, 0, 1) x (1, 0, 0)
  circle A0 centre (0, 0) radius 11 projected
  circle A1 centre (30, 0) radius 2.6 projected
  circle A2 centre (-30, 0) radius 2.6 projected
  circle A3 centre (-15.5, -15.5) radius 2 projected
  circle A4 centre (-15.5, 15.5) radius 2 projected
  circle A5 centre (15.5, 15.5) radius 2 projected
  circle A6 centre (15.5, -15.5) radius 2 projected
  line L0 (50, -25) -> (-50, -25) projected
  line L1 (50, 25) -> (50, -25) projected
  line L2 (-50, 25) -> (50, 25) projected
  line L3 (-50, -25) -> (-50, 25) projected
  line L4 (50, 25) -> (-50, 25)
  line L5 (-50, 25) -> (-50, 65)
  line L6 (-50, 65) -> (50, 65)
  line L7 (50, 65) -> (50, 25)
  dimension "d189" = 40
extrude "Extrusion10" add sketch "Sketch45" against normal blind 5 contours L2 L5 L6 L7
sketch "Sketch46" plane through (0, 0, 0) normal (0, 0, 1) x (1, 0, 0)
  line L0 (-49.9718, -3.9786) -> (-54.9718, -3.9786)
  line L1 (-54.9718, -3.9786) -> (-54.9718, -8.9786)
  line L2 (-54.9718, -8.9786) -> (-49.9718, -8.9786)
  line L3 (-49.9718, -8.9786) -> (-49.9718, -3.9786)
  point P0 (0, 0)
  dimension "d192" = 5
  dimension "d193" = 5
extrude "Extrusion11" cut sketch "Sketch46" against normal blind 5
sketch "Sketch47" plane through (0, 0, 0) normal (0, 0, 1) x (1, 0, 0)
  line L0 (-50, -5) -> (-55, -5)
  line L1 (-55, -5) -> (-55, 0)
  line L2 (-55, 0) -> (-50, 0)
  line L3 (-50, 0) -> (-50, -5)
  line L4 (-50, -3.9786) -> (-50, 65) projected
  line L5 (50, -25) -> (-50, -25) projected
  point P0 (0, 0)
  dimension "d196" = 5
  dimension "d197" = 5
  dimension "d200" = 20
extrude "Extrusion12" add sketch "Sketch47" against normal blind 5
sketch "Sketch48" plane through (0, 0, 0) normal (0, 0, 1) x (1, 0, 0)
  line L0 (50, 0) -> (55, 0)
  line L1 (55, 0) -> (55, -5)
  line L2 (55, -5) -> (50, -5)
  line L3 (50, -5) -> (50, 0)
  line L4 (50, -25) -> (-50, -25) projected
  line L5 (50, -25) -> (50, 65) projected
  point P0 (0, 0)
  dimension "d201" = 5
  dimension "d202" = 5
  dimension "d203" = 20
extrude "Extrusion13" add sketch "Sketch48" against normal blind 5
sketch "Sketch50" plane through (0, 0, 0) normal (0, 0, 1) x (1, 0, 0)
  line L0 (-30, 65) -> (-25, 65)
  line L1 (-25, 65) -> (-25, 70)
  line L2 (-25, 70) -> (-30, 70)
  line L3 (-30, 70) -> (-30, 65)
  line L4 (-30, 65) -> (-25, 70) construction
  line L5 (-25, 65) -> (-30, 70) construction
  line L6 (-50, 0) -> (-50, 65) projected
  line L7 (50, 65) -> (-50, 65) projected
  line L8 (25, 65) -> (30, 65)
  line L9 (30, 65) -> (30, 70)
  line L10 (30, 70) -> (25, 70)
  line L11 (25, 70) -> (25, 65)
  line L12 (25, 65) -> (30, 70) construction
  line L13 (30, 65) -> (25, 70) construction
  line L14 (50, 0) -> (50, 65) projected
  point P0 (0, 0)
  point P1 (-27.5, 67.5)
  point P2 (27.5, 67.5)
  dimension "d210" = 5
  dimension "d211" = 5
  dimension "d212" = 20
  dimension "d213" = 5
  dimension "d214" = 5
  dimension "d215" = 20
extrude "Extrusion15" add sketch "Sketch50" against normal blind 5
sketch "Sketch51" plane through (0, 0, 0) normal (0, 0, 1) x (1, 0, 0)
  line L0 (-50, 40) -> (-55, 40)
  line L1 (-55, 40) -> (-55, 45)
  line L2 (-55, 45) -> (-50, 45)
  line L3 (-50, 45) -> (-50, 40)
  line L4 (-50, 40) -> (-55, 45) construction
  line L5 (-55, 40) -> (-50, 45) construction
  line L6 (-55, 0) -> (-50, 0) projected
  line L7 (-50, 0) -> (-50, 65) projected
  line L8 (50, 45) -> (55, 45)
  line L9 (55, 45) -> (55, 40)
  line L10 (55, 40) -> (50, 40)
  line L11 (50, 40) -> (50, 45)
  line L12 (50, 45) -> (55, 40) construction
  line L13 (55, 45) -> (50, 40) construction
  line L14 (50, 0) -> (55, 0) projected
  line L15 (50, 0) -> (50, 65) projected
  point P0 (0, 0)
  point P1 (-52.5, 42.5)
  point P2 (52.5, 42.5)
  dimension "d218" = 5
  dimension "d219" = 5
  dimension "d220" = 40
  dimension "d221" = 5
  dimension "d222" = 5
  dimension "d223" = 40
extrude "Extrusion16" add sketch "Sketch51" against normal blind 5
equation "\"d121\" = 0.2 * d21"
equation "\"d122\" = Wt"
equation "\"d123\" = 0.2 * d21"
equation "\"d129\" = Wt"
equation "\"d131\" = Wt"
equation "\"d132\" = 0.2 * d22"
equation "\"d133\" = 0.166667 * d22"
equation "\"d134\" = Wt"
equation "\"Wt\" = 5.5"
properties part number "holder_plate" material "Wood (Birch)"
